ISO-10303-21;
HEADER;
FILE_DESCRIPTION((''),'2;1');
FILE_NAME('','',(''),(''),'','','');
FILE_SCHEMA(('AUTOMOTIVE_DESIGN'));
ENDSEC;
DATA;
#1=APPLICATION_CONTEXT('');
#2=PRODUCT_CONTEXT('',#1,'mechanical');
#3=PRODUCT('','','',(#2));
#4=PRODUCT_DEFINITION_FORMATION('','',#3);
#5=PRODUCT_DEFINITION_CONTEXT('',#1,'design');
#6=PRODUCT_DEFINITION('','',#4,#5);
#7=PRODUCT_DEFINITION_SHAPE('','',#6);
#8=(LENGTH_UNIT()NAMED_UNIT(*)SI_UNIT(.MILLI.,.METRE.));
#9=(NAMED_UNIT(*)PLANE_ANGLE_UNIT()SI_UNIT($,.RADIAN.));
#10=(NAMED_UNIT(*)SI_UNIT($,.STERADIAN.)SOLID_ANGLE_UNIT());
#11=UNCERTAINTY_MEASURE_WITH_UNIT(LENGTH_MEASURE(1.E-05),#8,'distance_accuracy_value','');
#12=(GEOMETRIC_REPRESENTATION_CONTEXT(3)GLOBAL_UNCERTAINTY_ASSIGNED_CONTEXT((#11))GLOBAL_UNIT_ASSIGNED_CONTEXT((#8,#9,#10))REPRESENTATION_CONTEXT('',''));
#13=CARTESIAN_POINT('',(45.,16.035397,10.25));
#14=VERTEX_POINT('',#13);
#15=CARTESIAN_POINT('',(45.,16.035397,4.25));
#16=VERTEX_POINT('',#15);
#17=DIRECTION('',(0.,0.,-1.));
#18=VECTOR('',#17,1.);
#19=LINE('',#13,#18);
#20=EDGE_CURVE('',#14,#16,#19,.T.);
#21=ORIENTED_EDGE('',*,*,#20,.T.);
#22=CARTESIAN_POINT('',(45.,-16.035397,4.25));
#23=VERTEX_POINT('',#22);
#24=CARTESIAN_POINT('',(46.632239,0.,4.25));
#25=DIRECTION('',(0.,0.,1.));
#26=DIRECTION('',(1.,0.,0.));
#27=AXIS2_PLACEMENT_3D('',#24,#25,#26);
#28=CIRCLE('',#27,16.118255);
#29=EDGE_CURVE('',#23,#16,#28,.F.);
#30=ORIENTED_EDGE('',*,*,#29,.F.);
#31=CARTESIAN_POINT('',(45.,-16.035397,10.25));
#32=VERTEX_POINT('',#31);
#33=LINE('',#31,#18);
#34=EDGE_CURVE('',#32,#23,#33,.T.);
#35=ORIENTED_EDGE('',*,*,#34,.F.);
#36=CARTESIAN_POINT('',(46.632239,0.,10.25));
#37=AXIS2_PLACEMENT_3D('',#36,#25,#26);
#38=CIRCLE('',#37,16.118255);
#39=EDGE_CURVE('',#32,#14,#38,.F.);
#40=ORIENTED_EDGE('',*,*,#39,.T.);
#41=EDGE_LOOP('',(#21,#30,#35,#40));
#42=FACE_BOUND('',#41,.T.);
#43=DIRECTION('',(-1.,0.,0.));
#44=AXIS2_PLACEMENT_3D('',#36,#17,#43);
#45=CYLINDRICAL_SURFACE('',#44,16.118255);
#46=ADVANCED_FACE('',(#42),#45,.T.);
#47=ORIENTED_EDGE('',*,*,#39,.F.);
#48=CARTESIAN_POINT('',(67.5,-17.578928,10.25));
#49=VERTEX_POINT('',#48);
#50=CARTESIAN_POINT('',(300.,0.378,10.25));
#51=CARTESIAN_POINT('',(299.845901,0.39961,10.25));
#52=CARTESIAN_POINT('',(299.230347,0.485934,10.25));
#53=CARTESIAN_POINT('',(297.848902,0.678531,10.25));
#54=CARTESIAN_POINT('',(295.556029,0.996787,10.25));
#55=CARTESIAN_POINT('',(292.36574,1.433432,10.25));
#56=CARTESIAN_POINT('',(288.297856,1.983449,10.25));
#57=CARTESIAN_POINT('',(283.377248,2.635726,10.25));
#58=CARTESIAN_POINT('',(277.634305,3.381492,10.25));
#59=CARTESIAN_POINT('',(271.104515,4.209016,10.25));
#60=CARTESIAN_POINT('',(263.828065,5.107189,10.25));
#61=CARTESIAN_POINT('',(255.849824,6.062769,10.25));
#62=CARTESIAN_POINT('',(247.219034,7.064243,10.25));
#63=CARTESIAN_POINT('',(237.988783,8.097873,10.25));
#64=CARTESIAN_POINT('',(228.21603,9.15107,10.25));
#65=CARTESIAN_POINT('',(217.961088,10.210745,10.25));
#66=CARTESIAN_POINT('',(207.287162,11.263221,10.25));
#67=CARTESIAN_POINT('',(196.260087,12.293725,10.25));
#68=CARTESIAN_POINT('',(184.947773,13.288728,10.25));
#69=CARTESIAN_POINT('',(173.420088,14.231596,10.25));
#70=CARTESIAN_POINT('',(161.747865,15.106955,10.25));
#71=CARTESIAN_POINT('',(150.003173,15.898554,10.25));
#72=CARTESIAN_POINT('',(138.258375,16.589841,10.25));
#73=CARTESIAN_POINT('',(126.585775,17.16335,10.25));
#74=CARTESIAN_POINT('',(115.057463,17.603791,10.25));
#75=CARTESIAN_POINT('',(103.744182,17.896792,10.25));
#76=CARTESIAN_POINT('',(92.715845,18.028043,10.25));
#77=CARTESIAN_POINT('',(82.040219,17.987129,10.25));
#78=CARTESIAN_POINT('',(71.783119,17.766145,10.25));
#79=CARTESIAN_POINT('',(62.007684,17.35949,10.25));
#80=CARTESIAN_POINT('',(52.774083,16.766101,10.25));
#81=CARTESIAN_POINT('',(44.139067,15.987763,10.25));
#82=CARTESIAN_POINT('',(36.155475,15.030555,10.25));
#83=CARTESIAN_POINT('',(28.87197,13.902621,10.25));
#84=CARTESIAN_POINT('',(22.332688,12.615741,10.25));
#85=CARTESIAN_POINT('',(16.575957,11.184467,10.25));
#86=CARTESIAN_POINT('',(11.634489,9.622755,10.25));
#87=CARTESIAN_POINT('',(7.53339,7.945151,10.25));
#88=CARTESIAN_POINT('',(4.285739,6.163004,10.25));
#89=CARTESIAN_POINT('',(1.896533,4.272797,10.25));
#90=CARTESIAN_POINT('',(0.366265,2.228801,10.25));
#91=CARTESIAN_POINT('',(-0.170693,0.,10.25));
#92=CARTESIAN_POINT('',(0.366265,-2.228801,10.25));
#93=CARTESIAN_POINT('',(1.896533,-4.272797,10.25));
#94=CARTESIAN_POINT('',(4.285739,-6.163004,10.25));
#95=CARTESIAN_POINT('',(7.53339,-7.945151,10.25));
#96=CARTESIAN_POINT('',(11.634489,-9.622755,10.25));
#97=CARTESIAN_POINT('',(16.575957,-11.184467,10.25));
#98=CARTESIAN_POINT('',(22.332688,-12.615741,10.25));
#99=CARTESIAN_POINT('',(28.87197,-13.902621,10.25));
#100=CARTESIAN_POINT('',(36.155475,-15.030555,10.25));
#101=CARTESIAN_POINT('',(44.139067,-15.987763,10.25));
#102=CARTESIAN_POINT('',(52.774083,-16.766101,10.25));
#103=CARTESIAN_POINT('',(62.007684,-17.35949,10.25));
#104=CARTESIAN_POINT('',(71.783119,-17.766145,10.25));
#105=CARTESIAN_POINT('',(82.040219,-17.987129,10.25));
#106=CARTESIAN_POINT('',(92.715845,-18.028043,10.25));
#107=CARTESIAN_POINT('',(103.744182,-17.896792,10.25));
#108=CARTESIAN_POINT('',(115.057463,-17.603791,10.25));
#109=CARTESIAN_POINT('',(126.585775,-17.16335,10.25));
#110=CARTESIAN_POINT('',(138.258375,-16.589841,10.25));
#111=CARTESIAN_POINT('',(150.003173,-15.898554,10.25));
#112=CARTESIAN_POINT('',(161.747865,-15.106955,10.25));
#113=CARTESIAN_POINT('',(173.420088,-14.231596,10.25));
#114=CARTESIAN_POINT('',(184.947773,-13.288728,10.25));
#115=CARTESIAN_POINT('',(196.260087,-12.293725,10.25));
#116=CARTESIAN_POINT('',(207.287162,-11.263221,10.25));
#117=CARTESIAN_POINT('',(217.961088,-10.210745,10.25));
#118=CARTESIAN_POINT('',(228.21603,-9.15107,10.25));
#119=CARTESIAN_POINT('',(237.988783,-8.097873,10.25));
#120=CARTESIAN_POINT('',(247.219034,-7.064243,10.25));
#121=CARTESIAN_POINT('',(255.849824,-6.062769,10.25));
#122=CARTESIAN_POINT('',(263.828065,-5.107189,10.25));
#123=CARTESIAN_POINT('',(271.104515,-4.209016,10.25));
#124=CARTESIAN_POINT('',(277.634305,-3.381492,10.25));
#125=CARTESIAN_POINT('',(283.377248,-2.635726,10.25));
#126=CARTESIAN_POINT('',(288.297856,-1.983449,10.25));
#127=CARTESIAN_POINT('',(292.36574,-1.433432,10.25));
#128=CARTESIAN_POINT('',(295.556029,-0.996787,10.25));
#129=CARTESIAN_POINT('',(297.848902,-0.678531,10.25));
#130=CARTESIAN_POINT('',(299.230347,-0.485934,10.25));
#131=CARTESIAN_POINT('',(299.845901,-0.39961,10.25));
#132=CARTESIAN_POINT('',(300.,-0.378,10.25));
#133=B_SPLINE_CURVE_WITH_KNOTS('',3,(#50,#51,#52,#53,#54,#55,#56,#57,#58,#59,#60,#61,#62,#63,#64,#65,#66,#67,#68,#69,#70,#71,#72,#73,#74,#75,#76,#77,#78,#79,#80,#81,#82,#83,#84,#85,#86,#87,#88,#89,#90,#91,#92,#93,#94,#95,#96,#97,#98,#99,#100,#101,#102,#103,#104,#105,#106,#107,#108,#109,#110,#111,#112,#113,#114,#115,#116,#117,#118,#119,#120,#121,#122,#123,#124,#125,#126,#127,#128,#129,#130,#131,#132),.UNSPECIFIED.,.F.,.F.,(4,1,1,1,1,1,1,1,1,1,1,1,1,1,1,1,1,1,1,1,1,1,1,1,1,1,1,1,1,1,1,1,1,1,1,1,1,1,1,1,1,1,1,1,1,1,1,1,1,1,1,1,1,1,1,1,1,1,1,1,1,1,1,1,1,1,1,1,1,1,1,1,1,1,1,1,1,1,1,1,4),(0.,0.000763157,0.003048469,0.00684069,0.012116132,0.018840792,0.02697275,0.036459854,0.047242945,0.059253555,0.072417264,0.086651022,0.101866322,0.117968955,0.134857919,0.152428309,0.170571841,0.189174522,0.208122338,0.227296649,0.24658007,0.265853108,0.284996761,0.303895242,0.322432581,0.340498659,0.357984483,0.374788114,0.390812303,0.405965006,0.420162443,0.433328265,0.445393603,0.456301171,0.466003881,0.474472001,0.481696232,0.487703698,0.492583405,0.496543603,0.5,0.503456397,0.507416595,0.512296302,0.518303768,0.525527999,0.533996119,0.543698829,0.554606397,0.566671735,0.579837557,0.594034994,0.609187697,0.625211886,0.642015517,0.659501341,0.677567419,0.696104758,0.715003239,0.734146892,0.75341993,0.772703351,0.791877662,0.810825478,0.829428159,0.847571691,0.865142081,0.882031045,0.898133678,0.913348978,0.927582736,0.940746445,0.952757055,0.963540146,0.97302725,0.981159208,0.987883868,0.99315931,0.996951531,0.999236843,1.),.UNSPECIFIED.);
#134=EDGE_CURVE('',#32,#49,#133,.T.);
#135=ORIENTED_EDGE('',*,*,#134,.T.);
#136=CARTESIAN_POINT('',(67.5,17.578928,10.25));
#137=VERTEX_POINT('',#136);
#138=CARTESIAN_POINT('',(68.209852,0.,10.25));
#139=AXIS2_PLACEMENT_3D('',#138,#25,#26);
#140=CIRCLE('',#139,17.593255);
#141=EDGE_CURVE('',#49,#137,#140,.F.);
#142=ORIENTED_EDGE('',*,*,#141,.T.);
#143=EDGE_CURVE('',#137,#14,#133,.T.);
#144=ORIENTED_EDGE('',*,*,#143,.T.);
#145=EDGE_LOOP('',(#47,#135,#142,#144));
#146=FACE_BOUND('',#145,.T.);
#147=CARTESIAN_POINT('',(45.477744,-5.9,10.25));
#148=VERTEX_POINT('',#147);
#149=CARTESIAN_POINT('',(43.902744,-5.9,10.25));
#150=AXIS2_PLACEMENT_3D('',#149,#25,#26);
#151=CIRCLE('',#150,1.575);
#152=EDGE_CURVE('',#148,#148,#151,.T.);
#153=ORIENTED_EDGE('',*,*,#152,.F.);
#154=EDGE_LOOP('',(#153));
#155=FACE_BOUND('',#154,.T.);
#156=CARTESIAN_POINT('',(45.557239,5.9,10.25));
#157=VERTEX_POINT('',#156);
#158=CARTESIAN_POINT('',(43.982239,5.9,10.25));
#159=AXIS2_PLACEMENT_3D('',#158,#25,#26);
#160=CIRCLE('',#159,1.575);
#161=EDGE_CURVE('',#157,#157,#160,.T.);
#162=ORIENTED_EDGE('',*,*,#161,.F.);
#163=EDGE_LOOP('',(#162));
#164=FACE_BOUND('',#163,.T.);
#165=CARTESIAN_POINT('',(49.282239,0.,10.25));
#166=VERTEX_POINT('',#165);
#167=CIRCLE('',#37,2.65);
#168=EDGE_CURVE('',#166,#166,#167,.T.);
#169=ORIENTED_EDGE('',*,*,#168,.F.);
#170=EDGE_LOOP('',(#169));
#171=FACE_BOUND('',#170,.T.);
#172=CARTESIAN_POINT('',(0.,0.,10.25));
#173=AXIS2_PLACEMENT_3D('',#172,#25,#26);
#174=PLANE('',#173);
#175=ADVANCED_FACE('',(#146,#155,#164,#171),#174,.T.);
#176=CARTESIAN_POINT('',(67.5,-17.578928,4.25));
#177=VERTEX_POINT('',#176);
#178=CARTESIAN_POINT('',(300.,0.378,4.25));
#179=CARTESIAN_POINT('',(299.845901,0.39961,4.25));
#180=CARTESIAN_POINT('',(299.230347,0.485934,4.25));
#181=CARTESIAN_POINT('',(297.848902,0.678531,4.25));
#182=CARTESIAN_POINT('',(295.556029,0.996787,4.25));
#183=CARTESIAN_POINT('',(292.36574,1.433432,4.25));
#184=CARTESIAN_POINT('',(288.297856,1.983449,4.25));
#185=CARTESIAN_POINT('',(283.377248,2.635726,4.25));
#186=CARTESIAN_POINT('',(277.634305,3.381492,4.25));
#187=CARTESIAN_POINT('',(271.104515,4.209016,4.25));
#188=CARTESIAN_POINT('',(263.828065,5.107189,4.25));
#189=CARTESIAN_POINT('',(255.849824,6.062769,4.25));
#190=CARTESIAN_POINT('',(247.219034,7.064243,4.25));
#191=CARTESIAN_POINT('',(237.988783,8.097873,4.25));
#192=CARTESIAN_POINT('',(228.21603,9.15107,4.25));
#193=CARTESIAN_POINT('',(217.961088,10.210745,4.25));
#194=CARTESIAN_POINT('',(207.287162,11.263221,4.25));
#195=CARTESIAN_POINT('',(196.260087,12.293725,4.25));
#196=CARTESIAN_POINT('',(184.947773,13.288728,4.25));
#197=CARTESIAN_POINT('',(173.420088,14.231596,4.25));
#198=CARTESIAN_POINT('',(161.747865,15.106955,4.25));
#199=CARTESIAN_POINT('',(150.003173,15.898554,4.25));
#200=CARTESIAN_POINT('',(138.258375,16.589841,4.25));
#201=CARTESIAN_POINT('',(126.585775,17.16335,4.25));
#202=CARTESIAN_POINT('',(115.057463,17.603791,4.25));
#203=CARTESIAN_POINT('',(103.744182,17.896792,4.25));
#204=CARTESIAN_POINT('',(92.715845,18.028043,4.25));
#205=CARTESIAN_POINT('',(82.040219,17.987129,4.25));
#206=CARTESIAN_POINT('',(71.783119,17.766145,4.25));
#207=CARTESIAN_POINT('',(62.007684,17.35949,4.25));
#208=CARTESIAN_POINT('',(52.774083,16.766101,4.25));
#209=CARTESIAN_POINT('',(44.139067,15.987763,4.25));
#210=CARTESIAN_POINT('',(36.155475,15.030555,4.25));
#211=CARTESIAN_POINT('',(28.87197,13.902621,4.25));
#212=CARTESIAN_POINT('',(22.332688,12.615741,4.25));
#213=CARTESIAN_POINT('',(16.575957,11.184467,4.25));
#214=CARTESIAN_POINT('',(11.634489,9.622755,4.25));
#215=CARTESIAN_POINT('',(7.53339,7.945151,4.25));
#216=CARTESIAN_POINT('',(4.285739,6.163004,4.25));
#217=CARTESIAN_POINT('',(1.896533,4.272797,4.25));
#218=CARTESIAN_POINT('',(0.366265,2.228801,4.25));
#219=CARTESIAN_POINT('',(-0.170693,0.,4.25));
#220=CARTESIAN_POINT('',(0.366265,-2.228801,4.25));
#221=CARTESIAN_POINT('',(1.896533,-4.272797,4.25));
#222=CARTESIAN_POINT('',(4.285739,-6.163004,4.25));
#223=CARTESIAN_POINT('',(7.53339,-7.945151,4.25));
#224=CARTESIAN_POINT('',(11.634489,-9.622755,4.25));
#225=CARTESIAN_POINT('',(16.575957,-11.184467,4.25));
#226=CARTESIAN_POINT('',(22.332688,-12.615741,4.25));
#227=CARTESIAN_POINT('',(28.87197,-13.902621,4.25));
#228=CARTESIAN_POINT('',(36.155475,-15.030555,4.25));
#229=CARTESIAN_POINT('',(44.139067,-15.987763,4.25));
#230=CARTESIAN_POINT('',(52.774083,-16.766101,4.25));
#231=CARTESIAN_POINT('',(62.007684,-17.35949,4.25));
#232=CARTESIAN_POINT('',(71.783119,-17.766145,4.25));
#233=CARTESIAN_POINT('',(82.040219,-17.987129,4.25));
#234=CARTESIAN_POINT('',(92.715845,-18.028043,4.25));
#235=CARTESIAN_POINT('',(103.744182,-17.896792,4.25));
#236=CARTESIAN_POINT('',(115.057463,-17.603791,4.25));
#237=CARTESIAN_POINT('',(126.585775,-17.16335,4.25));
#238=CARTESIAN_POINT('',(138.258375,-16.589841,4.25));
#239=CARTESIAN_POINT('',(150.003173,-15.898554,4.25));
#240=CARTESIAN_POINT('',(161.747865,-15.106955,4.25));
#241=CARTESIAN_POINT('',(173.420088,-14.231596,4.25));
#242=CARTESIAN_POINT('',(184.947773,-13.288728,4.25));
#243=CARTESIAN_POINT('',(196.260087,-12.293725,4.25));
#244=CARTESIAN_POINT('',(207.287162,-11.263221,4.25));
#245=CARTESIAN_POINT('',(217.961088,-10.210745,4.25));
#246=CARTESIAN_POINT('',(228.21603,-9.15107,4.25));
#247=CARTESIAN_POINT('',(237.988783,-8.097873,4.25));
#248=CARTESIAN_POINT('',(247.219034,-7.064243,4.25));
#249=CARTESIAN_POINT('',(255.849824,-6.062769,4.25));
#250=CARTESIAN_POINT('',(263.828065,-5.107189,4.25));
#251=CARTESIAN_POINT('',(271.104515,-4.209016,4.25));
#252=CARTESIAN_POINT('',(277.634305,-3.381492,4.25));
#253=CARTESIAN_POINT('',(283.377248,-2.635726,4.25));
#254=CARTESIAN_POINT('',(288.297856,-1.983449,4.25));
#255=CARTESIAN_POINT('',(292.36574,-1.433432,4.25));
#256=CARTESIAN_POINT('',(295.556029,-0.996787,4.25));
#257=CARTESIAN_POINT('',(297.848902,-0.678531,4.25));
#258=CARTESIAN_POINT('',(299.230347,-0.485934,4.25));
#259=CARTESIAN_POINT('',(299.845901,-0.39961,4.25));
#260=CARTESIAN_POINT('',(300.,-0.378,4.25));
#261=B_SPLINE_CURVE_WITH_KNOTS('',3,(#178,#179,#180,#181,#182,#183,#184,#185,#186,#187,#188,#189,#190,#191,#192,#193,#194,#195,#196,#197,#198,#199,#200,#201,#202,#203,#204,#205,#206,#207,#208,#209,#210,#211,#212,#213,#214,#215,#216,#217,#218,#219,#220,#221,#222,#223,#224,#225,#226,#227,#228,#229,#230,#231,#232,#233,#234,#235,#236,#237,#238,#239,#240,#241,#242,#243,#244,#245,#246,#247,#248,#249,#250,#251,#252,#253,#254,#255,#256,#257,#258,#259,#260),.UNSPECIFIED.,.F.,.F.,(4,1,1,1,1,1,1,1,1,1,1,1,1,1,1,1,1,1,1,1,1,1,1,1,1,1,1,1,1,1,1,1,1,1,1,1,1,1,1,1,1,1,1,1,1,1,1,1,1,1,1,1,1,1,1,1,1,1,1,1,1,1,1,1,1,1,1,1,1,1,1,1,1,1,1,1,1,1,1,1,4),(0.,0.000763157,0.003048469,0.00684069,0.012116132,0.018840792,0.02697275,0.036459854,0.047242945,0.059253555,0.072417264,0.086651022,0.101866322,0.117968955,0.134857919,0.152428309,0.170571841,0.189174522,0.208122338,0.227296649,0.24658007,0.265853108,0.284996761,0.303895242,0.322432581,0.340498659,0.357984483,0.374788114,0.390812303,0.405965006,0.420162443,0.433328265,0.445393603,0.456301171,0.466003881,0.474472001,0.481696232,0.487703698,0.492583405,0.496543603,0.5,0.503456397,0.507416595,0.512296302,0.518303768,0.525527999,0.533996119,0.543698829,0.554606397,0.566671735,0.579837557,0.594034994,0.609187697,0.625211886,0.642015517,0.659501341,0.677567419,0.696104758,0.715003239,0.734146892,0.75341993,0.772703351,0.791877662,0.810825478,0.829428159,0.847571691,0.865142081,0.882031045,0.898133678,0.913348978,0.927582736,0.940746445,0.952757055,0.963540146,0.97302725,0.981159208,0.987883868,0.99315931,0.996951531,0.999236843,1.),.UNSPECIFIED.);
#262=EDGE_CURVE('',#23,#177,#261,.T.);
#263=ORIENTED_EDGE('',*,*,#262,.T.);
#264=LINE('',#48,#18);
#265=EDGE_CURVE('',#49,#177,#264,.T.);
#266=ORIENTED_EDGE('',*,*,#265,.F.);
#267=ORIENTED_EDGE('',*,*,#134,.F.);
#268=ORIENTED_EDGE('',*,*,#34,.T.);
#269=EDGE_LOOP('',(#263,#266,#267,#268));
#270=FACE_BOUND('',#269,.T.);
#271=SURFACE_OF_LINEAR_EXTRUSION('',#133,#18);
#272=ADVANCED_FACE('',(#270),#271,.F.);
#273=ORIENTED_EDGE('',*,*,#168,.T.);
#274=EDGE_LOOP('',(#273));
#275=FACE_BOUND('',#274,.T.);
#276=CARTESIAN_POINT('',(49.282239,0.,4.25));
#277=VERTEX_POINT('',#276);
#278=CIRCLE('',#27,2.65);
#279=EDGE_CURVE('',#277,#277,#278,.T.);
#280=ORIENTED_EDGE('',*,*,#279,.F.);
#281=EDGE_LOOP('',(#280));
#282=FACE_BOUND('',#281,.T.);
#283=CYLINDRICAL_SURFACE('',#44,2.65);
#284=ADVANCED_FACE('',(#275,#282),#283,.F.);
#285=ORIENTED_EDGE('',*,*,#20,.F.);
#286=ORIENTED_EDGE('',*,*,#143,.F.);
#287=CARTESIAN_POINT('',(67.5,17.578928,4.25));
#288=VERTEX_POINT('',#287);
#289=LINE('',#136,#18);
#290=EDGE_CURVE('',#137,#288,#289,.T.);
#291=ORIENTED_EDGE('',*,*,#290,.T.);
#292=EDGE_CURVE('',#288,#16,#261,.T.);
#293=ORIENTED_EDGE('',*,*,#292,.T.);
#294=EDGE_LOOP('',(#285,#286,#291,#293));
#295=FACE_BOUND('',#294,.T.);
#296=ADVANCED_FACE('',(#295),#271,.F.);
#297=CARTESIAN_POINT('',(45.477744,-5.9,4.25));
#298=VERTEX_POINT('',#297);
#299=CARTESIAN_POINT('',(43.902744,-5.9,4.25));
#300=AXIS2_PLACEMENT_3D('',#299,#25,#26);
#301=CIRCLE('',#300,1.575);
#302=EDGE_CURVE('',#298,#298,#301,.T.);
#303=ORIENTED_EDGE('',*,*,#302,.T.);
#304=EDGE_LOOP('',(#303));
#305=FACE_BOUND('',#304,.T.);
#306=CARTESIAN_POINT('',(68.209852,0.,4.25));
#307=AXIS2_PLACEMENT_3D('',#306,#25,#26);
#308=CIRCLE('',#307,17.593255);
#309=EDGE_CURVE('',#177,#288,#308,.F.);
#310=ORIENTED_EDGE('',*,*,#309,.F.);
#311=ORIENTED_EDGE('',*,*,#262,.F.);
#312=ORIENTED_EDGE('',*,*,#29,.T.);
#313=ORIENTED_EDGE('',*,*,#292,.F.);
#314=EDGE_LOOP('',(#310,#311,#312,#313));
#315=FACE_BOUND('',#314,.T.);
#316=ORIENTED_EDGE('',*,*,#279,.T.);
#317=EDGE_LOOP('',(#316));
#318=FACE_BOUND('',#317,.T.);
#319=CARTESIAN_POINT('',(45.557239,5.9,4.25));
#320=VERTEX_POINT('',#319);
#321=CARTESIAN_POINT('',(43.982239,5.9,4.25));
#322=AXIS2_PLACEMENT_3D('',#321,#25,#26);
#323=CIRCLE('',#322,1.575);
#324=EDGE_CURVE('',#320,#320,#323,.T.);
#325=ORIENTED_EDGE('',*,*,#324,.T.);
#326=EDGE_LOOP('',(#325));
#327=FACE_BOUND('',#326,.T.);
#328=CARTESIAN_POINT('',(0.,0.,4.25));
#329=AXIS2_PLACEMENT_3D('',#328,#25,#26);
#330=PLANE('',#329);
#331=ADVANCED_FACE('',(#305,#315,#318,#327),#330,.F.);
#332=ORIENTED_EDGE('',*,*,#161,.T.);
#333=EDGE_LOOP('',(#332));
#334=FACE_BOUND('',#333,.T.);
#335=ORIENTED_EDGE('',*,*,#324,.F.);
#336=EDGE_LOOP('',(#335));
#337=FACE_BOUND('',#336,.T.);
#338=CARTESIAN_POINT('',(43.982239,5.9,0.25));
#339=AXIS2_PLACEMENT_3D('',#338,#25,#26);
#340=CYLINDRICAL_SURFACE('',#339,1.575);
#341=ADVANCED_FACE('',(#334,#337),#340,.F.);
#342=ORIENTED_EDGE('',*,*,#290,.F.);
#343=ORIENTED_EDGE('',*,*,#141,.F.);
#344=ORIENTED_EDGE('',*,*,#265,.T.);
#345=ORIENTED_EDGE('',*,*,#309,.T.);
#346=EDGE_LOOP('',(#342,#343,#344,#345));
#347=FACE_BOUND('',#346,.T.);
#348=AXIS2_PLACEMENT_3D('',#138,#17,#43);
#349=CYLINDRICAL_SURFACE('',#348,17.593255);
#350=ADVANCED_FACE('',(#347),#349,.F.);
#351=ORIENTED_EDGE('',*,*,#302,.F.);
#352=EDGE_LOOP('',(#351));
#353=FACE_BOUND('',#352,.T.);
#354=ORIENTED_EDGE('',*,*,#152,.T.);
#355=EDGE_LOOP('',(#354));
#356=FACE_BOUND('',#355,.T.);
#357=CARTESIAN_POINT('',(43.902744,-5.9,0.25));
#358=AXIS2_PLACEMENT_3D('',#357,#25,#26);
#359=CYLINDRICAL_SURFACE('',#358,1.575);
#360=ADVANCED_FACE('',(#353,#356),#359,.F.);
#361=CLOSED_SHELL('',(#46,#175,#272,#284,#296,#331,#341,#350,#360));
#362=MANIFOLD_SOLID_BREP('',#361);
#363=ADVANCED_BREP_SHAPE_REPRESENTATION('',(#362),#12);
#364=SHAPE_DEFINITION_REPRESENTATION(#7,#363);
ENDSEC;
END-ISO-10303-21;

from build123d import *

# Parameters (mm, degrees)
BOSS_EXTRUDE3_START = 4.25
BOSS_EXTRUDE3_DEPTH = 6
SKETCH3_R           = 1.575
CUT_EXTRUDE1_DEPTH  = 10


with BuildPart() as part:
    # Sketch2 → Boss-Extrude3 (new body)
    with BuildSketch(Plane.XY.offset(BOSS_EXTRUDE3_START)):
        with BuildLine():
            ThreePointArc((46.632238895, 16.118255038), (45.815068573, 16.097527081), (45, 16.035396523))
            ThreePointArc((45, 16.035396523), (38.72701102, 14.046548248), (33.771749201, 9.716272448))
            ThreePointArc((33.771749201, 9.716272448), (37.029755518, 5.335725192), (38.184673742, 0))
            Line((38.184673742, 0), (43.982238895, 0))
            ThreePointArc((43.982238895, 0), (44.758405925, 1.87383297), (46.632238895, 2.65))
            Line((46.632238895, 2.65), (46.632238895, 16.118255038))
        make_face()
        with BuildLine():
            ThreePointArc((33.771749201, -9.716272448), (38.72701102, -14.046548248), (45, -16.035396523))
            ThreePointArc((45, -16.035396523), (45.815068573, -16.097527081), (46.632238895, -16.118255038))
            Line((46.632238895, -16.118255038), (46.632238895, -2.65))
            ThreePointArc((46.632238895, -2.65), (44.758405925, -1.87383297), (43.982238895, 0))
            Line((43.982238895, 0), (38.184673742, 0))
            ThreePointArc((38.184673742, 0), (37.029755518, -5.335725192), (33.771749201, -9.716272448))
        make_face()
        with BuildLine():
            ThreePointArc((38.184673742, 0), (37.029755518, 5.335725192), (33.771749201, 9.716272448))
            ThreePointArc((33.771749201, 9.716272448), (31.350112109, 5.123938556), (30.513983858, 0))
            Line((30.513983858, 0), (38.184673742, 0))
        make_face()
        with BuildLine():
            ThreePointArc((30.513983858, 0), (31.350112109, -5.123938556), (33.771749201, -9.716272448))
            ThreePointArc((33.771749201, -9.716272448), (37.029755518, -5.335725192), (38.184673742, 0))
            Line((38.184673742, 0), (30.513983858, 0))
        make_face()
        with BuildLine():
            ThreePointArc((56.268821721, 12.920310248), (51.708915452, 15.297892031), (46.632238895, 16.118255038))
            Line((46.632238895, 16.118255038), (46.632238895, 2.65))
            ThreePointArc((46.632238895, 2.65), (48.506071865, 1.87383297), (49.282238895, 0))
            Line((49.282238895, 0), (50.616596945, 0))
            ThreePointArc((50.616596945, 0), (52.091474062, 7.051277576), (56.268821721, 12.920310248))
        make_face()
        with BuildLine():
            Line((46.632238895, -2.65), (46.632238895, -16.118255038))
            ThreePointArc((46.632238895, -16.118255038), (51.708915452, -15.297892031), (56.268821721, -12.920310248))
            ThreePointArc((56.268821721, -12.920310248), (52.091474062, -7.051277576), (50.616596945, 0))
            Line((50.616596945, 0), (49.282238895, 0))
            ThreePointArc((49.282238895, 0), (48.506071865, -1.87383297), (46.632238895, -2.65))
        make_face()
        with BuildLine():
            add(Edge.make_bspline(
                [(67.5, 17.578928476), (65.61016752, 17.502615465), (60.634413429, 17.271238409), (53.13057404, 16.789010877), (47.524682176, 16.292383273), (45, 16.035396523)],
                knots=[0.381536428, 0.381536428, 0.381536428, 0.381536428, 0.390812303, 0.405965006, 0.418410632, 0.418410632, 0.418410632, 0.418410632], degree=3))
            ThreePointArc((45, 16.035396523), (45.815068573, 16.097527081), (46.632238895, 16.118255038))
            ThreePointArc((46.632238895, 16.118255038), (51.708915452, 15.297892031), (56.268821721, 12.920310248))
            ThreePointArc((56.268821721, 12.920310248), (61.469163108, 16.250714817), (67.5, 17.578928476))
        make_face()
        with BuildLine():
            ThreePointArc((46.632238895, -16.118255038), (45.815068573, -16.097527081), (45, -16.035396523))
            add(Edge.make_bspline(
                [(45, -16.035396523), (47.524682176, -16.292383273), (53.13057404, -16.789010877), (60.634413429, -17.271238409), (65.61016752, -17.502615465), (67.5, -17.578928476)],
                knots=[0.581589368, 0.581589368, 0.581589368, 0.581589368, 0.594034994, 0.609187697, 0.618463572, 0.618463572, 0.618463572, 0.618463572], degree=3))
            ThreePointArc((67.5, -17.578928476), (61.469163108, -16.250714817), (56.268821721, -12.920310248))
            ThreePointArc((56.268821721, -12.920310248), (51.708915452, -15.297892031), (46.632238895, -16.118255038))
        make_face()
    extrude(amount=BOSS_EXTRUDE3_DEPTH)

    # Sketch3 → Cut-Extrude1 (cut)
    with BuildSketch(Plane.XY.offset(10.25)):
        with Locations((43.902744235, -5.9)):
            Circle(SKETCH3_R)
        with Locations((43.982238895, 5.9)):
            Circle(SKETCH3_R)
    extrude(amount=-CUT_EXTRUDE1_DEPTH, mode=Mode.SUBTRACT)


solid = part.part
